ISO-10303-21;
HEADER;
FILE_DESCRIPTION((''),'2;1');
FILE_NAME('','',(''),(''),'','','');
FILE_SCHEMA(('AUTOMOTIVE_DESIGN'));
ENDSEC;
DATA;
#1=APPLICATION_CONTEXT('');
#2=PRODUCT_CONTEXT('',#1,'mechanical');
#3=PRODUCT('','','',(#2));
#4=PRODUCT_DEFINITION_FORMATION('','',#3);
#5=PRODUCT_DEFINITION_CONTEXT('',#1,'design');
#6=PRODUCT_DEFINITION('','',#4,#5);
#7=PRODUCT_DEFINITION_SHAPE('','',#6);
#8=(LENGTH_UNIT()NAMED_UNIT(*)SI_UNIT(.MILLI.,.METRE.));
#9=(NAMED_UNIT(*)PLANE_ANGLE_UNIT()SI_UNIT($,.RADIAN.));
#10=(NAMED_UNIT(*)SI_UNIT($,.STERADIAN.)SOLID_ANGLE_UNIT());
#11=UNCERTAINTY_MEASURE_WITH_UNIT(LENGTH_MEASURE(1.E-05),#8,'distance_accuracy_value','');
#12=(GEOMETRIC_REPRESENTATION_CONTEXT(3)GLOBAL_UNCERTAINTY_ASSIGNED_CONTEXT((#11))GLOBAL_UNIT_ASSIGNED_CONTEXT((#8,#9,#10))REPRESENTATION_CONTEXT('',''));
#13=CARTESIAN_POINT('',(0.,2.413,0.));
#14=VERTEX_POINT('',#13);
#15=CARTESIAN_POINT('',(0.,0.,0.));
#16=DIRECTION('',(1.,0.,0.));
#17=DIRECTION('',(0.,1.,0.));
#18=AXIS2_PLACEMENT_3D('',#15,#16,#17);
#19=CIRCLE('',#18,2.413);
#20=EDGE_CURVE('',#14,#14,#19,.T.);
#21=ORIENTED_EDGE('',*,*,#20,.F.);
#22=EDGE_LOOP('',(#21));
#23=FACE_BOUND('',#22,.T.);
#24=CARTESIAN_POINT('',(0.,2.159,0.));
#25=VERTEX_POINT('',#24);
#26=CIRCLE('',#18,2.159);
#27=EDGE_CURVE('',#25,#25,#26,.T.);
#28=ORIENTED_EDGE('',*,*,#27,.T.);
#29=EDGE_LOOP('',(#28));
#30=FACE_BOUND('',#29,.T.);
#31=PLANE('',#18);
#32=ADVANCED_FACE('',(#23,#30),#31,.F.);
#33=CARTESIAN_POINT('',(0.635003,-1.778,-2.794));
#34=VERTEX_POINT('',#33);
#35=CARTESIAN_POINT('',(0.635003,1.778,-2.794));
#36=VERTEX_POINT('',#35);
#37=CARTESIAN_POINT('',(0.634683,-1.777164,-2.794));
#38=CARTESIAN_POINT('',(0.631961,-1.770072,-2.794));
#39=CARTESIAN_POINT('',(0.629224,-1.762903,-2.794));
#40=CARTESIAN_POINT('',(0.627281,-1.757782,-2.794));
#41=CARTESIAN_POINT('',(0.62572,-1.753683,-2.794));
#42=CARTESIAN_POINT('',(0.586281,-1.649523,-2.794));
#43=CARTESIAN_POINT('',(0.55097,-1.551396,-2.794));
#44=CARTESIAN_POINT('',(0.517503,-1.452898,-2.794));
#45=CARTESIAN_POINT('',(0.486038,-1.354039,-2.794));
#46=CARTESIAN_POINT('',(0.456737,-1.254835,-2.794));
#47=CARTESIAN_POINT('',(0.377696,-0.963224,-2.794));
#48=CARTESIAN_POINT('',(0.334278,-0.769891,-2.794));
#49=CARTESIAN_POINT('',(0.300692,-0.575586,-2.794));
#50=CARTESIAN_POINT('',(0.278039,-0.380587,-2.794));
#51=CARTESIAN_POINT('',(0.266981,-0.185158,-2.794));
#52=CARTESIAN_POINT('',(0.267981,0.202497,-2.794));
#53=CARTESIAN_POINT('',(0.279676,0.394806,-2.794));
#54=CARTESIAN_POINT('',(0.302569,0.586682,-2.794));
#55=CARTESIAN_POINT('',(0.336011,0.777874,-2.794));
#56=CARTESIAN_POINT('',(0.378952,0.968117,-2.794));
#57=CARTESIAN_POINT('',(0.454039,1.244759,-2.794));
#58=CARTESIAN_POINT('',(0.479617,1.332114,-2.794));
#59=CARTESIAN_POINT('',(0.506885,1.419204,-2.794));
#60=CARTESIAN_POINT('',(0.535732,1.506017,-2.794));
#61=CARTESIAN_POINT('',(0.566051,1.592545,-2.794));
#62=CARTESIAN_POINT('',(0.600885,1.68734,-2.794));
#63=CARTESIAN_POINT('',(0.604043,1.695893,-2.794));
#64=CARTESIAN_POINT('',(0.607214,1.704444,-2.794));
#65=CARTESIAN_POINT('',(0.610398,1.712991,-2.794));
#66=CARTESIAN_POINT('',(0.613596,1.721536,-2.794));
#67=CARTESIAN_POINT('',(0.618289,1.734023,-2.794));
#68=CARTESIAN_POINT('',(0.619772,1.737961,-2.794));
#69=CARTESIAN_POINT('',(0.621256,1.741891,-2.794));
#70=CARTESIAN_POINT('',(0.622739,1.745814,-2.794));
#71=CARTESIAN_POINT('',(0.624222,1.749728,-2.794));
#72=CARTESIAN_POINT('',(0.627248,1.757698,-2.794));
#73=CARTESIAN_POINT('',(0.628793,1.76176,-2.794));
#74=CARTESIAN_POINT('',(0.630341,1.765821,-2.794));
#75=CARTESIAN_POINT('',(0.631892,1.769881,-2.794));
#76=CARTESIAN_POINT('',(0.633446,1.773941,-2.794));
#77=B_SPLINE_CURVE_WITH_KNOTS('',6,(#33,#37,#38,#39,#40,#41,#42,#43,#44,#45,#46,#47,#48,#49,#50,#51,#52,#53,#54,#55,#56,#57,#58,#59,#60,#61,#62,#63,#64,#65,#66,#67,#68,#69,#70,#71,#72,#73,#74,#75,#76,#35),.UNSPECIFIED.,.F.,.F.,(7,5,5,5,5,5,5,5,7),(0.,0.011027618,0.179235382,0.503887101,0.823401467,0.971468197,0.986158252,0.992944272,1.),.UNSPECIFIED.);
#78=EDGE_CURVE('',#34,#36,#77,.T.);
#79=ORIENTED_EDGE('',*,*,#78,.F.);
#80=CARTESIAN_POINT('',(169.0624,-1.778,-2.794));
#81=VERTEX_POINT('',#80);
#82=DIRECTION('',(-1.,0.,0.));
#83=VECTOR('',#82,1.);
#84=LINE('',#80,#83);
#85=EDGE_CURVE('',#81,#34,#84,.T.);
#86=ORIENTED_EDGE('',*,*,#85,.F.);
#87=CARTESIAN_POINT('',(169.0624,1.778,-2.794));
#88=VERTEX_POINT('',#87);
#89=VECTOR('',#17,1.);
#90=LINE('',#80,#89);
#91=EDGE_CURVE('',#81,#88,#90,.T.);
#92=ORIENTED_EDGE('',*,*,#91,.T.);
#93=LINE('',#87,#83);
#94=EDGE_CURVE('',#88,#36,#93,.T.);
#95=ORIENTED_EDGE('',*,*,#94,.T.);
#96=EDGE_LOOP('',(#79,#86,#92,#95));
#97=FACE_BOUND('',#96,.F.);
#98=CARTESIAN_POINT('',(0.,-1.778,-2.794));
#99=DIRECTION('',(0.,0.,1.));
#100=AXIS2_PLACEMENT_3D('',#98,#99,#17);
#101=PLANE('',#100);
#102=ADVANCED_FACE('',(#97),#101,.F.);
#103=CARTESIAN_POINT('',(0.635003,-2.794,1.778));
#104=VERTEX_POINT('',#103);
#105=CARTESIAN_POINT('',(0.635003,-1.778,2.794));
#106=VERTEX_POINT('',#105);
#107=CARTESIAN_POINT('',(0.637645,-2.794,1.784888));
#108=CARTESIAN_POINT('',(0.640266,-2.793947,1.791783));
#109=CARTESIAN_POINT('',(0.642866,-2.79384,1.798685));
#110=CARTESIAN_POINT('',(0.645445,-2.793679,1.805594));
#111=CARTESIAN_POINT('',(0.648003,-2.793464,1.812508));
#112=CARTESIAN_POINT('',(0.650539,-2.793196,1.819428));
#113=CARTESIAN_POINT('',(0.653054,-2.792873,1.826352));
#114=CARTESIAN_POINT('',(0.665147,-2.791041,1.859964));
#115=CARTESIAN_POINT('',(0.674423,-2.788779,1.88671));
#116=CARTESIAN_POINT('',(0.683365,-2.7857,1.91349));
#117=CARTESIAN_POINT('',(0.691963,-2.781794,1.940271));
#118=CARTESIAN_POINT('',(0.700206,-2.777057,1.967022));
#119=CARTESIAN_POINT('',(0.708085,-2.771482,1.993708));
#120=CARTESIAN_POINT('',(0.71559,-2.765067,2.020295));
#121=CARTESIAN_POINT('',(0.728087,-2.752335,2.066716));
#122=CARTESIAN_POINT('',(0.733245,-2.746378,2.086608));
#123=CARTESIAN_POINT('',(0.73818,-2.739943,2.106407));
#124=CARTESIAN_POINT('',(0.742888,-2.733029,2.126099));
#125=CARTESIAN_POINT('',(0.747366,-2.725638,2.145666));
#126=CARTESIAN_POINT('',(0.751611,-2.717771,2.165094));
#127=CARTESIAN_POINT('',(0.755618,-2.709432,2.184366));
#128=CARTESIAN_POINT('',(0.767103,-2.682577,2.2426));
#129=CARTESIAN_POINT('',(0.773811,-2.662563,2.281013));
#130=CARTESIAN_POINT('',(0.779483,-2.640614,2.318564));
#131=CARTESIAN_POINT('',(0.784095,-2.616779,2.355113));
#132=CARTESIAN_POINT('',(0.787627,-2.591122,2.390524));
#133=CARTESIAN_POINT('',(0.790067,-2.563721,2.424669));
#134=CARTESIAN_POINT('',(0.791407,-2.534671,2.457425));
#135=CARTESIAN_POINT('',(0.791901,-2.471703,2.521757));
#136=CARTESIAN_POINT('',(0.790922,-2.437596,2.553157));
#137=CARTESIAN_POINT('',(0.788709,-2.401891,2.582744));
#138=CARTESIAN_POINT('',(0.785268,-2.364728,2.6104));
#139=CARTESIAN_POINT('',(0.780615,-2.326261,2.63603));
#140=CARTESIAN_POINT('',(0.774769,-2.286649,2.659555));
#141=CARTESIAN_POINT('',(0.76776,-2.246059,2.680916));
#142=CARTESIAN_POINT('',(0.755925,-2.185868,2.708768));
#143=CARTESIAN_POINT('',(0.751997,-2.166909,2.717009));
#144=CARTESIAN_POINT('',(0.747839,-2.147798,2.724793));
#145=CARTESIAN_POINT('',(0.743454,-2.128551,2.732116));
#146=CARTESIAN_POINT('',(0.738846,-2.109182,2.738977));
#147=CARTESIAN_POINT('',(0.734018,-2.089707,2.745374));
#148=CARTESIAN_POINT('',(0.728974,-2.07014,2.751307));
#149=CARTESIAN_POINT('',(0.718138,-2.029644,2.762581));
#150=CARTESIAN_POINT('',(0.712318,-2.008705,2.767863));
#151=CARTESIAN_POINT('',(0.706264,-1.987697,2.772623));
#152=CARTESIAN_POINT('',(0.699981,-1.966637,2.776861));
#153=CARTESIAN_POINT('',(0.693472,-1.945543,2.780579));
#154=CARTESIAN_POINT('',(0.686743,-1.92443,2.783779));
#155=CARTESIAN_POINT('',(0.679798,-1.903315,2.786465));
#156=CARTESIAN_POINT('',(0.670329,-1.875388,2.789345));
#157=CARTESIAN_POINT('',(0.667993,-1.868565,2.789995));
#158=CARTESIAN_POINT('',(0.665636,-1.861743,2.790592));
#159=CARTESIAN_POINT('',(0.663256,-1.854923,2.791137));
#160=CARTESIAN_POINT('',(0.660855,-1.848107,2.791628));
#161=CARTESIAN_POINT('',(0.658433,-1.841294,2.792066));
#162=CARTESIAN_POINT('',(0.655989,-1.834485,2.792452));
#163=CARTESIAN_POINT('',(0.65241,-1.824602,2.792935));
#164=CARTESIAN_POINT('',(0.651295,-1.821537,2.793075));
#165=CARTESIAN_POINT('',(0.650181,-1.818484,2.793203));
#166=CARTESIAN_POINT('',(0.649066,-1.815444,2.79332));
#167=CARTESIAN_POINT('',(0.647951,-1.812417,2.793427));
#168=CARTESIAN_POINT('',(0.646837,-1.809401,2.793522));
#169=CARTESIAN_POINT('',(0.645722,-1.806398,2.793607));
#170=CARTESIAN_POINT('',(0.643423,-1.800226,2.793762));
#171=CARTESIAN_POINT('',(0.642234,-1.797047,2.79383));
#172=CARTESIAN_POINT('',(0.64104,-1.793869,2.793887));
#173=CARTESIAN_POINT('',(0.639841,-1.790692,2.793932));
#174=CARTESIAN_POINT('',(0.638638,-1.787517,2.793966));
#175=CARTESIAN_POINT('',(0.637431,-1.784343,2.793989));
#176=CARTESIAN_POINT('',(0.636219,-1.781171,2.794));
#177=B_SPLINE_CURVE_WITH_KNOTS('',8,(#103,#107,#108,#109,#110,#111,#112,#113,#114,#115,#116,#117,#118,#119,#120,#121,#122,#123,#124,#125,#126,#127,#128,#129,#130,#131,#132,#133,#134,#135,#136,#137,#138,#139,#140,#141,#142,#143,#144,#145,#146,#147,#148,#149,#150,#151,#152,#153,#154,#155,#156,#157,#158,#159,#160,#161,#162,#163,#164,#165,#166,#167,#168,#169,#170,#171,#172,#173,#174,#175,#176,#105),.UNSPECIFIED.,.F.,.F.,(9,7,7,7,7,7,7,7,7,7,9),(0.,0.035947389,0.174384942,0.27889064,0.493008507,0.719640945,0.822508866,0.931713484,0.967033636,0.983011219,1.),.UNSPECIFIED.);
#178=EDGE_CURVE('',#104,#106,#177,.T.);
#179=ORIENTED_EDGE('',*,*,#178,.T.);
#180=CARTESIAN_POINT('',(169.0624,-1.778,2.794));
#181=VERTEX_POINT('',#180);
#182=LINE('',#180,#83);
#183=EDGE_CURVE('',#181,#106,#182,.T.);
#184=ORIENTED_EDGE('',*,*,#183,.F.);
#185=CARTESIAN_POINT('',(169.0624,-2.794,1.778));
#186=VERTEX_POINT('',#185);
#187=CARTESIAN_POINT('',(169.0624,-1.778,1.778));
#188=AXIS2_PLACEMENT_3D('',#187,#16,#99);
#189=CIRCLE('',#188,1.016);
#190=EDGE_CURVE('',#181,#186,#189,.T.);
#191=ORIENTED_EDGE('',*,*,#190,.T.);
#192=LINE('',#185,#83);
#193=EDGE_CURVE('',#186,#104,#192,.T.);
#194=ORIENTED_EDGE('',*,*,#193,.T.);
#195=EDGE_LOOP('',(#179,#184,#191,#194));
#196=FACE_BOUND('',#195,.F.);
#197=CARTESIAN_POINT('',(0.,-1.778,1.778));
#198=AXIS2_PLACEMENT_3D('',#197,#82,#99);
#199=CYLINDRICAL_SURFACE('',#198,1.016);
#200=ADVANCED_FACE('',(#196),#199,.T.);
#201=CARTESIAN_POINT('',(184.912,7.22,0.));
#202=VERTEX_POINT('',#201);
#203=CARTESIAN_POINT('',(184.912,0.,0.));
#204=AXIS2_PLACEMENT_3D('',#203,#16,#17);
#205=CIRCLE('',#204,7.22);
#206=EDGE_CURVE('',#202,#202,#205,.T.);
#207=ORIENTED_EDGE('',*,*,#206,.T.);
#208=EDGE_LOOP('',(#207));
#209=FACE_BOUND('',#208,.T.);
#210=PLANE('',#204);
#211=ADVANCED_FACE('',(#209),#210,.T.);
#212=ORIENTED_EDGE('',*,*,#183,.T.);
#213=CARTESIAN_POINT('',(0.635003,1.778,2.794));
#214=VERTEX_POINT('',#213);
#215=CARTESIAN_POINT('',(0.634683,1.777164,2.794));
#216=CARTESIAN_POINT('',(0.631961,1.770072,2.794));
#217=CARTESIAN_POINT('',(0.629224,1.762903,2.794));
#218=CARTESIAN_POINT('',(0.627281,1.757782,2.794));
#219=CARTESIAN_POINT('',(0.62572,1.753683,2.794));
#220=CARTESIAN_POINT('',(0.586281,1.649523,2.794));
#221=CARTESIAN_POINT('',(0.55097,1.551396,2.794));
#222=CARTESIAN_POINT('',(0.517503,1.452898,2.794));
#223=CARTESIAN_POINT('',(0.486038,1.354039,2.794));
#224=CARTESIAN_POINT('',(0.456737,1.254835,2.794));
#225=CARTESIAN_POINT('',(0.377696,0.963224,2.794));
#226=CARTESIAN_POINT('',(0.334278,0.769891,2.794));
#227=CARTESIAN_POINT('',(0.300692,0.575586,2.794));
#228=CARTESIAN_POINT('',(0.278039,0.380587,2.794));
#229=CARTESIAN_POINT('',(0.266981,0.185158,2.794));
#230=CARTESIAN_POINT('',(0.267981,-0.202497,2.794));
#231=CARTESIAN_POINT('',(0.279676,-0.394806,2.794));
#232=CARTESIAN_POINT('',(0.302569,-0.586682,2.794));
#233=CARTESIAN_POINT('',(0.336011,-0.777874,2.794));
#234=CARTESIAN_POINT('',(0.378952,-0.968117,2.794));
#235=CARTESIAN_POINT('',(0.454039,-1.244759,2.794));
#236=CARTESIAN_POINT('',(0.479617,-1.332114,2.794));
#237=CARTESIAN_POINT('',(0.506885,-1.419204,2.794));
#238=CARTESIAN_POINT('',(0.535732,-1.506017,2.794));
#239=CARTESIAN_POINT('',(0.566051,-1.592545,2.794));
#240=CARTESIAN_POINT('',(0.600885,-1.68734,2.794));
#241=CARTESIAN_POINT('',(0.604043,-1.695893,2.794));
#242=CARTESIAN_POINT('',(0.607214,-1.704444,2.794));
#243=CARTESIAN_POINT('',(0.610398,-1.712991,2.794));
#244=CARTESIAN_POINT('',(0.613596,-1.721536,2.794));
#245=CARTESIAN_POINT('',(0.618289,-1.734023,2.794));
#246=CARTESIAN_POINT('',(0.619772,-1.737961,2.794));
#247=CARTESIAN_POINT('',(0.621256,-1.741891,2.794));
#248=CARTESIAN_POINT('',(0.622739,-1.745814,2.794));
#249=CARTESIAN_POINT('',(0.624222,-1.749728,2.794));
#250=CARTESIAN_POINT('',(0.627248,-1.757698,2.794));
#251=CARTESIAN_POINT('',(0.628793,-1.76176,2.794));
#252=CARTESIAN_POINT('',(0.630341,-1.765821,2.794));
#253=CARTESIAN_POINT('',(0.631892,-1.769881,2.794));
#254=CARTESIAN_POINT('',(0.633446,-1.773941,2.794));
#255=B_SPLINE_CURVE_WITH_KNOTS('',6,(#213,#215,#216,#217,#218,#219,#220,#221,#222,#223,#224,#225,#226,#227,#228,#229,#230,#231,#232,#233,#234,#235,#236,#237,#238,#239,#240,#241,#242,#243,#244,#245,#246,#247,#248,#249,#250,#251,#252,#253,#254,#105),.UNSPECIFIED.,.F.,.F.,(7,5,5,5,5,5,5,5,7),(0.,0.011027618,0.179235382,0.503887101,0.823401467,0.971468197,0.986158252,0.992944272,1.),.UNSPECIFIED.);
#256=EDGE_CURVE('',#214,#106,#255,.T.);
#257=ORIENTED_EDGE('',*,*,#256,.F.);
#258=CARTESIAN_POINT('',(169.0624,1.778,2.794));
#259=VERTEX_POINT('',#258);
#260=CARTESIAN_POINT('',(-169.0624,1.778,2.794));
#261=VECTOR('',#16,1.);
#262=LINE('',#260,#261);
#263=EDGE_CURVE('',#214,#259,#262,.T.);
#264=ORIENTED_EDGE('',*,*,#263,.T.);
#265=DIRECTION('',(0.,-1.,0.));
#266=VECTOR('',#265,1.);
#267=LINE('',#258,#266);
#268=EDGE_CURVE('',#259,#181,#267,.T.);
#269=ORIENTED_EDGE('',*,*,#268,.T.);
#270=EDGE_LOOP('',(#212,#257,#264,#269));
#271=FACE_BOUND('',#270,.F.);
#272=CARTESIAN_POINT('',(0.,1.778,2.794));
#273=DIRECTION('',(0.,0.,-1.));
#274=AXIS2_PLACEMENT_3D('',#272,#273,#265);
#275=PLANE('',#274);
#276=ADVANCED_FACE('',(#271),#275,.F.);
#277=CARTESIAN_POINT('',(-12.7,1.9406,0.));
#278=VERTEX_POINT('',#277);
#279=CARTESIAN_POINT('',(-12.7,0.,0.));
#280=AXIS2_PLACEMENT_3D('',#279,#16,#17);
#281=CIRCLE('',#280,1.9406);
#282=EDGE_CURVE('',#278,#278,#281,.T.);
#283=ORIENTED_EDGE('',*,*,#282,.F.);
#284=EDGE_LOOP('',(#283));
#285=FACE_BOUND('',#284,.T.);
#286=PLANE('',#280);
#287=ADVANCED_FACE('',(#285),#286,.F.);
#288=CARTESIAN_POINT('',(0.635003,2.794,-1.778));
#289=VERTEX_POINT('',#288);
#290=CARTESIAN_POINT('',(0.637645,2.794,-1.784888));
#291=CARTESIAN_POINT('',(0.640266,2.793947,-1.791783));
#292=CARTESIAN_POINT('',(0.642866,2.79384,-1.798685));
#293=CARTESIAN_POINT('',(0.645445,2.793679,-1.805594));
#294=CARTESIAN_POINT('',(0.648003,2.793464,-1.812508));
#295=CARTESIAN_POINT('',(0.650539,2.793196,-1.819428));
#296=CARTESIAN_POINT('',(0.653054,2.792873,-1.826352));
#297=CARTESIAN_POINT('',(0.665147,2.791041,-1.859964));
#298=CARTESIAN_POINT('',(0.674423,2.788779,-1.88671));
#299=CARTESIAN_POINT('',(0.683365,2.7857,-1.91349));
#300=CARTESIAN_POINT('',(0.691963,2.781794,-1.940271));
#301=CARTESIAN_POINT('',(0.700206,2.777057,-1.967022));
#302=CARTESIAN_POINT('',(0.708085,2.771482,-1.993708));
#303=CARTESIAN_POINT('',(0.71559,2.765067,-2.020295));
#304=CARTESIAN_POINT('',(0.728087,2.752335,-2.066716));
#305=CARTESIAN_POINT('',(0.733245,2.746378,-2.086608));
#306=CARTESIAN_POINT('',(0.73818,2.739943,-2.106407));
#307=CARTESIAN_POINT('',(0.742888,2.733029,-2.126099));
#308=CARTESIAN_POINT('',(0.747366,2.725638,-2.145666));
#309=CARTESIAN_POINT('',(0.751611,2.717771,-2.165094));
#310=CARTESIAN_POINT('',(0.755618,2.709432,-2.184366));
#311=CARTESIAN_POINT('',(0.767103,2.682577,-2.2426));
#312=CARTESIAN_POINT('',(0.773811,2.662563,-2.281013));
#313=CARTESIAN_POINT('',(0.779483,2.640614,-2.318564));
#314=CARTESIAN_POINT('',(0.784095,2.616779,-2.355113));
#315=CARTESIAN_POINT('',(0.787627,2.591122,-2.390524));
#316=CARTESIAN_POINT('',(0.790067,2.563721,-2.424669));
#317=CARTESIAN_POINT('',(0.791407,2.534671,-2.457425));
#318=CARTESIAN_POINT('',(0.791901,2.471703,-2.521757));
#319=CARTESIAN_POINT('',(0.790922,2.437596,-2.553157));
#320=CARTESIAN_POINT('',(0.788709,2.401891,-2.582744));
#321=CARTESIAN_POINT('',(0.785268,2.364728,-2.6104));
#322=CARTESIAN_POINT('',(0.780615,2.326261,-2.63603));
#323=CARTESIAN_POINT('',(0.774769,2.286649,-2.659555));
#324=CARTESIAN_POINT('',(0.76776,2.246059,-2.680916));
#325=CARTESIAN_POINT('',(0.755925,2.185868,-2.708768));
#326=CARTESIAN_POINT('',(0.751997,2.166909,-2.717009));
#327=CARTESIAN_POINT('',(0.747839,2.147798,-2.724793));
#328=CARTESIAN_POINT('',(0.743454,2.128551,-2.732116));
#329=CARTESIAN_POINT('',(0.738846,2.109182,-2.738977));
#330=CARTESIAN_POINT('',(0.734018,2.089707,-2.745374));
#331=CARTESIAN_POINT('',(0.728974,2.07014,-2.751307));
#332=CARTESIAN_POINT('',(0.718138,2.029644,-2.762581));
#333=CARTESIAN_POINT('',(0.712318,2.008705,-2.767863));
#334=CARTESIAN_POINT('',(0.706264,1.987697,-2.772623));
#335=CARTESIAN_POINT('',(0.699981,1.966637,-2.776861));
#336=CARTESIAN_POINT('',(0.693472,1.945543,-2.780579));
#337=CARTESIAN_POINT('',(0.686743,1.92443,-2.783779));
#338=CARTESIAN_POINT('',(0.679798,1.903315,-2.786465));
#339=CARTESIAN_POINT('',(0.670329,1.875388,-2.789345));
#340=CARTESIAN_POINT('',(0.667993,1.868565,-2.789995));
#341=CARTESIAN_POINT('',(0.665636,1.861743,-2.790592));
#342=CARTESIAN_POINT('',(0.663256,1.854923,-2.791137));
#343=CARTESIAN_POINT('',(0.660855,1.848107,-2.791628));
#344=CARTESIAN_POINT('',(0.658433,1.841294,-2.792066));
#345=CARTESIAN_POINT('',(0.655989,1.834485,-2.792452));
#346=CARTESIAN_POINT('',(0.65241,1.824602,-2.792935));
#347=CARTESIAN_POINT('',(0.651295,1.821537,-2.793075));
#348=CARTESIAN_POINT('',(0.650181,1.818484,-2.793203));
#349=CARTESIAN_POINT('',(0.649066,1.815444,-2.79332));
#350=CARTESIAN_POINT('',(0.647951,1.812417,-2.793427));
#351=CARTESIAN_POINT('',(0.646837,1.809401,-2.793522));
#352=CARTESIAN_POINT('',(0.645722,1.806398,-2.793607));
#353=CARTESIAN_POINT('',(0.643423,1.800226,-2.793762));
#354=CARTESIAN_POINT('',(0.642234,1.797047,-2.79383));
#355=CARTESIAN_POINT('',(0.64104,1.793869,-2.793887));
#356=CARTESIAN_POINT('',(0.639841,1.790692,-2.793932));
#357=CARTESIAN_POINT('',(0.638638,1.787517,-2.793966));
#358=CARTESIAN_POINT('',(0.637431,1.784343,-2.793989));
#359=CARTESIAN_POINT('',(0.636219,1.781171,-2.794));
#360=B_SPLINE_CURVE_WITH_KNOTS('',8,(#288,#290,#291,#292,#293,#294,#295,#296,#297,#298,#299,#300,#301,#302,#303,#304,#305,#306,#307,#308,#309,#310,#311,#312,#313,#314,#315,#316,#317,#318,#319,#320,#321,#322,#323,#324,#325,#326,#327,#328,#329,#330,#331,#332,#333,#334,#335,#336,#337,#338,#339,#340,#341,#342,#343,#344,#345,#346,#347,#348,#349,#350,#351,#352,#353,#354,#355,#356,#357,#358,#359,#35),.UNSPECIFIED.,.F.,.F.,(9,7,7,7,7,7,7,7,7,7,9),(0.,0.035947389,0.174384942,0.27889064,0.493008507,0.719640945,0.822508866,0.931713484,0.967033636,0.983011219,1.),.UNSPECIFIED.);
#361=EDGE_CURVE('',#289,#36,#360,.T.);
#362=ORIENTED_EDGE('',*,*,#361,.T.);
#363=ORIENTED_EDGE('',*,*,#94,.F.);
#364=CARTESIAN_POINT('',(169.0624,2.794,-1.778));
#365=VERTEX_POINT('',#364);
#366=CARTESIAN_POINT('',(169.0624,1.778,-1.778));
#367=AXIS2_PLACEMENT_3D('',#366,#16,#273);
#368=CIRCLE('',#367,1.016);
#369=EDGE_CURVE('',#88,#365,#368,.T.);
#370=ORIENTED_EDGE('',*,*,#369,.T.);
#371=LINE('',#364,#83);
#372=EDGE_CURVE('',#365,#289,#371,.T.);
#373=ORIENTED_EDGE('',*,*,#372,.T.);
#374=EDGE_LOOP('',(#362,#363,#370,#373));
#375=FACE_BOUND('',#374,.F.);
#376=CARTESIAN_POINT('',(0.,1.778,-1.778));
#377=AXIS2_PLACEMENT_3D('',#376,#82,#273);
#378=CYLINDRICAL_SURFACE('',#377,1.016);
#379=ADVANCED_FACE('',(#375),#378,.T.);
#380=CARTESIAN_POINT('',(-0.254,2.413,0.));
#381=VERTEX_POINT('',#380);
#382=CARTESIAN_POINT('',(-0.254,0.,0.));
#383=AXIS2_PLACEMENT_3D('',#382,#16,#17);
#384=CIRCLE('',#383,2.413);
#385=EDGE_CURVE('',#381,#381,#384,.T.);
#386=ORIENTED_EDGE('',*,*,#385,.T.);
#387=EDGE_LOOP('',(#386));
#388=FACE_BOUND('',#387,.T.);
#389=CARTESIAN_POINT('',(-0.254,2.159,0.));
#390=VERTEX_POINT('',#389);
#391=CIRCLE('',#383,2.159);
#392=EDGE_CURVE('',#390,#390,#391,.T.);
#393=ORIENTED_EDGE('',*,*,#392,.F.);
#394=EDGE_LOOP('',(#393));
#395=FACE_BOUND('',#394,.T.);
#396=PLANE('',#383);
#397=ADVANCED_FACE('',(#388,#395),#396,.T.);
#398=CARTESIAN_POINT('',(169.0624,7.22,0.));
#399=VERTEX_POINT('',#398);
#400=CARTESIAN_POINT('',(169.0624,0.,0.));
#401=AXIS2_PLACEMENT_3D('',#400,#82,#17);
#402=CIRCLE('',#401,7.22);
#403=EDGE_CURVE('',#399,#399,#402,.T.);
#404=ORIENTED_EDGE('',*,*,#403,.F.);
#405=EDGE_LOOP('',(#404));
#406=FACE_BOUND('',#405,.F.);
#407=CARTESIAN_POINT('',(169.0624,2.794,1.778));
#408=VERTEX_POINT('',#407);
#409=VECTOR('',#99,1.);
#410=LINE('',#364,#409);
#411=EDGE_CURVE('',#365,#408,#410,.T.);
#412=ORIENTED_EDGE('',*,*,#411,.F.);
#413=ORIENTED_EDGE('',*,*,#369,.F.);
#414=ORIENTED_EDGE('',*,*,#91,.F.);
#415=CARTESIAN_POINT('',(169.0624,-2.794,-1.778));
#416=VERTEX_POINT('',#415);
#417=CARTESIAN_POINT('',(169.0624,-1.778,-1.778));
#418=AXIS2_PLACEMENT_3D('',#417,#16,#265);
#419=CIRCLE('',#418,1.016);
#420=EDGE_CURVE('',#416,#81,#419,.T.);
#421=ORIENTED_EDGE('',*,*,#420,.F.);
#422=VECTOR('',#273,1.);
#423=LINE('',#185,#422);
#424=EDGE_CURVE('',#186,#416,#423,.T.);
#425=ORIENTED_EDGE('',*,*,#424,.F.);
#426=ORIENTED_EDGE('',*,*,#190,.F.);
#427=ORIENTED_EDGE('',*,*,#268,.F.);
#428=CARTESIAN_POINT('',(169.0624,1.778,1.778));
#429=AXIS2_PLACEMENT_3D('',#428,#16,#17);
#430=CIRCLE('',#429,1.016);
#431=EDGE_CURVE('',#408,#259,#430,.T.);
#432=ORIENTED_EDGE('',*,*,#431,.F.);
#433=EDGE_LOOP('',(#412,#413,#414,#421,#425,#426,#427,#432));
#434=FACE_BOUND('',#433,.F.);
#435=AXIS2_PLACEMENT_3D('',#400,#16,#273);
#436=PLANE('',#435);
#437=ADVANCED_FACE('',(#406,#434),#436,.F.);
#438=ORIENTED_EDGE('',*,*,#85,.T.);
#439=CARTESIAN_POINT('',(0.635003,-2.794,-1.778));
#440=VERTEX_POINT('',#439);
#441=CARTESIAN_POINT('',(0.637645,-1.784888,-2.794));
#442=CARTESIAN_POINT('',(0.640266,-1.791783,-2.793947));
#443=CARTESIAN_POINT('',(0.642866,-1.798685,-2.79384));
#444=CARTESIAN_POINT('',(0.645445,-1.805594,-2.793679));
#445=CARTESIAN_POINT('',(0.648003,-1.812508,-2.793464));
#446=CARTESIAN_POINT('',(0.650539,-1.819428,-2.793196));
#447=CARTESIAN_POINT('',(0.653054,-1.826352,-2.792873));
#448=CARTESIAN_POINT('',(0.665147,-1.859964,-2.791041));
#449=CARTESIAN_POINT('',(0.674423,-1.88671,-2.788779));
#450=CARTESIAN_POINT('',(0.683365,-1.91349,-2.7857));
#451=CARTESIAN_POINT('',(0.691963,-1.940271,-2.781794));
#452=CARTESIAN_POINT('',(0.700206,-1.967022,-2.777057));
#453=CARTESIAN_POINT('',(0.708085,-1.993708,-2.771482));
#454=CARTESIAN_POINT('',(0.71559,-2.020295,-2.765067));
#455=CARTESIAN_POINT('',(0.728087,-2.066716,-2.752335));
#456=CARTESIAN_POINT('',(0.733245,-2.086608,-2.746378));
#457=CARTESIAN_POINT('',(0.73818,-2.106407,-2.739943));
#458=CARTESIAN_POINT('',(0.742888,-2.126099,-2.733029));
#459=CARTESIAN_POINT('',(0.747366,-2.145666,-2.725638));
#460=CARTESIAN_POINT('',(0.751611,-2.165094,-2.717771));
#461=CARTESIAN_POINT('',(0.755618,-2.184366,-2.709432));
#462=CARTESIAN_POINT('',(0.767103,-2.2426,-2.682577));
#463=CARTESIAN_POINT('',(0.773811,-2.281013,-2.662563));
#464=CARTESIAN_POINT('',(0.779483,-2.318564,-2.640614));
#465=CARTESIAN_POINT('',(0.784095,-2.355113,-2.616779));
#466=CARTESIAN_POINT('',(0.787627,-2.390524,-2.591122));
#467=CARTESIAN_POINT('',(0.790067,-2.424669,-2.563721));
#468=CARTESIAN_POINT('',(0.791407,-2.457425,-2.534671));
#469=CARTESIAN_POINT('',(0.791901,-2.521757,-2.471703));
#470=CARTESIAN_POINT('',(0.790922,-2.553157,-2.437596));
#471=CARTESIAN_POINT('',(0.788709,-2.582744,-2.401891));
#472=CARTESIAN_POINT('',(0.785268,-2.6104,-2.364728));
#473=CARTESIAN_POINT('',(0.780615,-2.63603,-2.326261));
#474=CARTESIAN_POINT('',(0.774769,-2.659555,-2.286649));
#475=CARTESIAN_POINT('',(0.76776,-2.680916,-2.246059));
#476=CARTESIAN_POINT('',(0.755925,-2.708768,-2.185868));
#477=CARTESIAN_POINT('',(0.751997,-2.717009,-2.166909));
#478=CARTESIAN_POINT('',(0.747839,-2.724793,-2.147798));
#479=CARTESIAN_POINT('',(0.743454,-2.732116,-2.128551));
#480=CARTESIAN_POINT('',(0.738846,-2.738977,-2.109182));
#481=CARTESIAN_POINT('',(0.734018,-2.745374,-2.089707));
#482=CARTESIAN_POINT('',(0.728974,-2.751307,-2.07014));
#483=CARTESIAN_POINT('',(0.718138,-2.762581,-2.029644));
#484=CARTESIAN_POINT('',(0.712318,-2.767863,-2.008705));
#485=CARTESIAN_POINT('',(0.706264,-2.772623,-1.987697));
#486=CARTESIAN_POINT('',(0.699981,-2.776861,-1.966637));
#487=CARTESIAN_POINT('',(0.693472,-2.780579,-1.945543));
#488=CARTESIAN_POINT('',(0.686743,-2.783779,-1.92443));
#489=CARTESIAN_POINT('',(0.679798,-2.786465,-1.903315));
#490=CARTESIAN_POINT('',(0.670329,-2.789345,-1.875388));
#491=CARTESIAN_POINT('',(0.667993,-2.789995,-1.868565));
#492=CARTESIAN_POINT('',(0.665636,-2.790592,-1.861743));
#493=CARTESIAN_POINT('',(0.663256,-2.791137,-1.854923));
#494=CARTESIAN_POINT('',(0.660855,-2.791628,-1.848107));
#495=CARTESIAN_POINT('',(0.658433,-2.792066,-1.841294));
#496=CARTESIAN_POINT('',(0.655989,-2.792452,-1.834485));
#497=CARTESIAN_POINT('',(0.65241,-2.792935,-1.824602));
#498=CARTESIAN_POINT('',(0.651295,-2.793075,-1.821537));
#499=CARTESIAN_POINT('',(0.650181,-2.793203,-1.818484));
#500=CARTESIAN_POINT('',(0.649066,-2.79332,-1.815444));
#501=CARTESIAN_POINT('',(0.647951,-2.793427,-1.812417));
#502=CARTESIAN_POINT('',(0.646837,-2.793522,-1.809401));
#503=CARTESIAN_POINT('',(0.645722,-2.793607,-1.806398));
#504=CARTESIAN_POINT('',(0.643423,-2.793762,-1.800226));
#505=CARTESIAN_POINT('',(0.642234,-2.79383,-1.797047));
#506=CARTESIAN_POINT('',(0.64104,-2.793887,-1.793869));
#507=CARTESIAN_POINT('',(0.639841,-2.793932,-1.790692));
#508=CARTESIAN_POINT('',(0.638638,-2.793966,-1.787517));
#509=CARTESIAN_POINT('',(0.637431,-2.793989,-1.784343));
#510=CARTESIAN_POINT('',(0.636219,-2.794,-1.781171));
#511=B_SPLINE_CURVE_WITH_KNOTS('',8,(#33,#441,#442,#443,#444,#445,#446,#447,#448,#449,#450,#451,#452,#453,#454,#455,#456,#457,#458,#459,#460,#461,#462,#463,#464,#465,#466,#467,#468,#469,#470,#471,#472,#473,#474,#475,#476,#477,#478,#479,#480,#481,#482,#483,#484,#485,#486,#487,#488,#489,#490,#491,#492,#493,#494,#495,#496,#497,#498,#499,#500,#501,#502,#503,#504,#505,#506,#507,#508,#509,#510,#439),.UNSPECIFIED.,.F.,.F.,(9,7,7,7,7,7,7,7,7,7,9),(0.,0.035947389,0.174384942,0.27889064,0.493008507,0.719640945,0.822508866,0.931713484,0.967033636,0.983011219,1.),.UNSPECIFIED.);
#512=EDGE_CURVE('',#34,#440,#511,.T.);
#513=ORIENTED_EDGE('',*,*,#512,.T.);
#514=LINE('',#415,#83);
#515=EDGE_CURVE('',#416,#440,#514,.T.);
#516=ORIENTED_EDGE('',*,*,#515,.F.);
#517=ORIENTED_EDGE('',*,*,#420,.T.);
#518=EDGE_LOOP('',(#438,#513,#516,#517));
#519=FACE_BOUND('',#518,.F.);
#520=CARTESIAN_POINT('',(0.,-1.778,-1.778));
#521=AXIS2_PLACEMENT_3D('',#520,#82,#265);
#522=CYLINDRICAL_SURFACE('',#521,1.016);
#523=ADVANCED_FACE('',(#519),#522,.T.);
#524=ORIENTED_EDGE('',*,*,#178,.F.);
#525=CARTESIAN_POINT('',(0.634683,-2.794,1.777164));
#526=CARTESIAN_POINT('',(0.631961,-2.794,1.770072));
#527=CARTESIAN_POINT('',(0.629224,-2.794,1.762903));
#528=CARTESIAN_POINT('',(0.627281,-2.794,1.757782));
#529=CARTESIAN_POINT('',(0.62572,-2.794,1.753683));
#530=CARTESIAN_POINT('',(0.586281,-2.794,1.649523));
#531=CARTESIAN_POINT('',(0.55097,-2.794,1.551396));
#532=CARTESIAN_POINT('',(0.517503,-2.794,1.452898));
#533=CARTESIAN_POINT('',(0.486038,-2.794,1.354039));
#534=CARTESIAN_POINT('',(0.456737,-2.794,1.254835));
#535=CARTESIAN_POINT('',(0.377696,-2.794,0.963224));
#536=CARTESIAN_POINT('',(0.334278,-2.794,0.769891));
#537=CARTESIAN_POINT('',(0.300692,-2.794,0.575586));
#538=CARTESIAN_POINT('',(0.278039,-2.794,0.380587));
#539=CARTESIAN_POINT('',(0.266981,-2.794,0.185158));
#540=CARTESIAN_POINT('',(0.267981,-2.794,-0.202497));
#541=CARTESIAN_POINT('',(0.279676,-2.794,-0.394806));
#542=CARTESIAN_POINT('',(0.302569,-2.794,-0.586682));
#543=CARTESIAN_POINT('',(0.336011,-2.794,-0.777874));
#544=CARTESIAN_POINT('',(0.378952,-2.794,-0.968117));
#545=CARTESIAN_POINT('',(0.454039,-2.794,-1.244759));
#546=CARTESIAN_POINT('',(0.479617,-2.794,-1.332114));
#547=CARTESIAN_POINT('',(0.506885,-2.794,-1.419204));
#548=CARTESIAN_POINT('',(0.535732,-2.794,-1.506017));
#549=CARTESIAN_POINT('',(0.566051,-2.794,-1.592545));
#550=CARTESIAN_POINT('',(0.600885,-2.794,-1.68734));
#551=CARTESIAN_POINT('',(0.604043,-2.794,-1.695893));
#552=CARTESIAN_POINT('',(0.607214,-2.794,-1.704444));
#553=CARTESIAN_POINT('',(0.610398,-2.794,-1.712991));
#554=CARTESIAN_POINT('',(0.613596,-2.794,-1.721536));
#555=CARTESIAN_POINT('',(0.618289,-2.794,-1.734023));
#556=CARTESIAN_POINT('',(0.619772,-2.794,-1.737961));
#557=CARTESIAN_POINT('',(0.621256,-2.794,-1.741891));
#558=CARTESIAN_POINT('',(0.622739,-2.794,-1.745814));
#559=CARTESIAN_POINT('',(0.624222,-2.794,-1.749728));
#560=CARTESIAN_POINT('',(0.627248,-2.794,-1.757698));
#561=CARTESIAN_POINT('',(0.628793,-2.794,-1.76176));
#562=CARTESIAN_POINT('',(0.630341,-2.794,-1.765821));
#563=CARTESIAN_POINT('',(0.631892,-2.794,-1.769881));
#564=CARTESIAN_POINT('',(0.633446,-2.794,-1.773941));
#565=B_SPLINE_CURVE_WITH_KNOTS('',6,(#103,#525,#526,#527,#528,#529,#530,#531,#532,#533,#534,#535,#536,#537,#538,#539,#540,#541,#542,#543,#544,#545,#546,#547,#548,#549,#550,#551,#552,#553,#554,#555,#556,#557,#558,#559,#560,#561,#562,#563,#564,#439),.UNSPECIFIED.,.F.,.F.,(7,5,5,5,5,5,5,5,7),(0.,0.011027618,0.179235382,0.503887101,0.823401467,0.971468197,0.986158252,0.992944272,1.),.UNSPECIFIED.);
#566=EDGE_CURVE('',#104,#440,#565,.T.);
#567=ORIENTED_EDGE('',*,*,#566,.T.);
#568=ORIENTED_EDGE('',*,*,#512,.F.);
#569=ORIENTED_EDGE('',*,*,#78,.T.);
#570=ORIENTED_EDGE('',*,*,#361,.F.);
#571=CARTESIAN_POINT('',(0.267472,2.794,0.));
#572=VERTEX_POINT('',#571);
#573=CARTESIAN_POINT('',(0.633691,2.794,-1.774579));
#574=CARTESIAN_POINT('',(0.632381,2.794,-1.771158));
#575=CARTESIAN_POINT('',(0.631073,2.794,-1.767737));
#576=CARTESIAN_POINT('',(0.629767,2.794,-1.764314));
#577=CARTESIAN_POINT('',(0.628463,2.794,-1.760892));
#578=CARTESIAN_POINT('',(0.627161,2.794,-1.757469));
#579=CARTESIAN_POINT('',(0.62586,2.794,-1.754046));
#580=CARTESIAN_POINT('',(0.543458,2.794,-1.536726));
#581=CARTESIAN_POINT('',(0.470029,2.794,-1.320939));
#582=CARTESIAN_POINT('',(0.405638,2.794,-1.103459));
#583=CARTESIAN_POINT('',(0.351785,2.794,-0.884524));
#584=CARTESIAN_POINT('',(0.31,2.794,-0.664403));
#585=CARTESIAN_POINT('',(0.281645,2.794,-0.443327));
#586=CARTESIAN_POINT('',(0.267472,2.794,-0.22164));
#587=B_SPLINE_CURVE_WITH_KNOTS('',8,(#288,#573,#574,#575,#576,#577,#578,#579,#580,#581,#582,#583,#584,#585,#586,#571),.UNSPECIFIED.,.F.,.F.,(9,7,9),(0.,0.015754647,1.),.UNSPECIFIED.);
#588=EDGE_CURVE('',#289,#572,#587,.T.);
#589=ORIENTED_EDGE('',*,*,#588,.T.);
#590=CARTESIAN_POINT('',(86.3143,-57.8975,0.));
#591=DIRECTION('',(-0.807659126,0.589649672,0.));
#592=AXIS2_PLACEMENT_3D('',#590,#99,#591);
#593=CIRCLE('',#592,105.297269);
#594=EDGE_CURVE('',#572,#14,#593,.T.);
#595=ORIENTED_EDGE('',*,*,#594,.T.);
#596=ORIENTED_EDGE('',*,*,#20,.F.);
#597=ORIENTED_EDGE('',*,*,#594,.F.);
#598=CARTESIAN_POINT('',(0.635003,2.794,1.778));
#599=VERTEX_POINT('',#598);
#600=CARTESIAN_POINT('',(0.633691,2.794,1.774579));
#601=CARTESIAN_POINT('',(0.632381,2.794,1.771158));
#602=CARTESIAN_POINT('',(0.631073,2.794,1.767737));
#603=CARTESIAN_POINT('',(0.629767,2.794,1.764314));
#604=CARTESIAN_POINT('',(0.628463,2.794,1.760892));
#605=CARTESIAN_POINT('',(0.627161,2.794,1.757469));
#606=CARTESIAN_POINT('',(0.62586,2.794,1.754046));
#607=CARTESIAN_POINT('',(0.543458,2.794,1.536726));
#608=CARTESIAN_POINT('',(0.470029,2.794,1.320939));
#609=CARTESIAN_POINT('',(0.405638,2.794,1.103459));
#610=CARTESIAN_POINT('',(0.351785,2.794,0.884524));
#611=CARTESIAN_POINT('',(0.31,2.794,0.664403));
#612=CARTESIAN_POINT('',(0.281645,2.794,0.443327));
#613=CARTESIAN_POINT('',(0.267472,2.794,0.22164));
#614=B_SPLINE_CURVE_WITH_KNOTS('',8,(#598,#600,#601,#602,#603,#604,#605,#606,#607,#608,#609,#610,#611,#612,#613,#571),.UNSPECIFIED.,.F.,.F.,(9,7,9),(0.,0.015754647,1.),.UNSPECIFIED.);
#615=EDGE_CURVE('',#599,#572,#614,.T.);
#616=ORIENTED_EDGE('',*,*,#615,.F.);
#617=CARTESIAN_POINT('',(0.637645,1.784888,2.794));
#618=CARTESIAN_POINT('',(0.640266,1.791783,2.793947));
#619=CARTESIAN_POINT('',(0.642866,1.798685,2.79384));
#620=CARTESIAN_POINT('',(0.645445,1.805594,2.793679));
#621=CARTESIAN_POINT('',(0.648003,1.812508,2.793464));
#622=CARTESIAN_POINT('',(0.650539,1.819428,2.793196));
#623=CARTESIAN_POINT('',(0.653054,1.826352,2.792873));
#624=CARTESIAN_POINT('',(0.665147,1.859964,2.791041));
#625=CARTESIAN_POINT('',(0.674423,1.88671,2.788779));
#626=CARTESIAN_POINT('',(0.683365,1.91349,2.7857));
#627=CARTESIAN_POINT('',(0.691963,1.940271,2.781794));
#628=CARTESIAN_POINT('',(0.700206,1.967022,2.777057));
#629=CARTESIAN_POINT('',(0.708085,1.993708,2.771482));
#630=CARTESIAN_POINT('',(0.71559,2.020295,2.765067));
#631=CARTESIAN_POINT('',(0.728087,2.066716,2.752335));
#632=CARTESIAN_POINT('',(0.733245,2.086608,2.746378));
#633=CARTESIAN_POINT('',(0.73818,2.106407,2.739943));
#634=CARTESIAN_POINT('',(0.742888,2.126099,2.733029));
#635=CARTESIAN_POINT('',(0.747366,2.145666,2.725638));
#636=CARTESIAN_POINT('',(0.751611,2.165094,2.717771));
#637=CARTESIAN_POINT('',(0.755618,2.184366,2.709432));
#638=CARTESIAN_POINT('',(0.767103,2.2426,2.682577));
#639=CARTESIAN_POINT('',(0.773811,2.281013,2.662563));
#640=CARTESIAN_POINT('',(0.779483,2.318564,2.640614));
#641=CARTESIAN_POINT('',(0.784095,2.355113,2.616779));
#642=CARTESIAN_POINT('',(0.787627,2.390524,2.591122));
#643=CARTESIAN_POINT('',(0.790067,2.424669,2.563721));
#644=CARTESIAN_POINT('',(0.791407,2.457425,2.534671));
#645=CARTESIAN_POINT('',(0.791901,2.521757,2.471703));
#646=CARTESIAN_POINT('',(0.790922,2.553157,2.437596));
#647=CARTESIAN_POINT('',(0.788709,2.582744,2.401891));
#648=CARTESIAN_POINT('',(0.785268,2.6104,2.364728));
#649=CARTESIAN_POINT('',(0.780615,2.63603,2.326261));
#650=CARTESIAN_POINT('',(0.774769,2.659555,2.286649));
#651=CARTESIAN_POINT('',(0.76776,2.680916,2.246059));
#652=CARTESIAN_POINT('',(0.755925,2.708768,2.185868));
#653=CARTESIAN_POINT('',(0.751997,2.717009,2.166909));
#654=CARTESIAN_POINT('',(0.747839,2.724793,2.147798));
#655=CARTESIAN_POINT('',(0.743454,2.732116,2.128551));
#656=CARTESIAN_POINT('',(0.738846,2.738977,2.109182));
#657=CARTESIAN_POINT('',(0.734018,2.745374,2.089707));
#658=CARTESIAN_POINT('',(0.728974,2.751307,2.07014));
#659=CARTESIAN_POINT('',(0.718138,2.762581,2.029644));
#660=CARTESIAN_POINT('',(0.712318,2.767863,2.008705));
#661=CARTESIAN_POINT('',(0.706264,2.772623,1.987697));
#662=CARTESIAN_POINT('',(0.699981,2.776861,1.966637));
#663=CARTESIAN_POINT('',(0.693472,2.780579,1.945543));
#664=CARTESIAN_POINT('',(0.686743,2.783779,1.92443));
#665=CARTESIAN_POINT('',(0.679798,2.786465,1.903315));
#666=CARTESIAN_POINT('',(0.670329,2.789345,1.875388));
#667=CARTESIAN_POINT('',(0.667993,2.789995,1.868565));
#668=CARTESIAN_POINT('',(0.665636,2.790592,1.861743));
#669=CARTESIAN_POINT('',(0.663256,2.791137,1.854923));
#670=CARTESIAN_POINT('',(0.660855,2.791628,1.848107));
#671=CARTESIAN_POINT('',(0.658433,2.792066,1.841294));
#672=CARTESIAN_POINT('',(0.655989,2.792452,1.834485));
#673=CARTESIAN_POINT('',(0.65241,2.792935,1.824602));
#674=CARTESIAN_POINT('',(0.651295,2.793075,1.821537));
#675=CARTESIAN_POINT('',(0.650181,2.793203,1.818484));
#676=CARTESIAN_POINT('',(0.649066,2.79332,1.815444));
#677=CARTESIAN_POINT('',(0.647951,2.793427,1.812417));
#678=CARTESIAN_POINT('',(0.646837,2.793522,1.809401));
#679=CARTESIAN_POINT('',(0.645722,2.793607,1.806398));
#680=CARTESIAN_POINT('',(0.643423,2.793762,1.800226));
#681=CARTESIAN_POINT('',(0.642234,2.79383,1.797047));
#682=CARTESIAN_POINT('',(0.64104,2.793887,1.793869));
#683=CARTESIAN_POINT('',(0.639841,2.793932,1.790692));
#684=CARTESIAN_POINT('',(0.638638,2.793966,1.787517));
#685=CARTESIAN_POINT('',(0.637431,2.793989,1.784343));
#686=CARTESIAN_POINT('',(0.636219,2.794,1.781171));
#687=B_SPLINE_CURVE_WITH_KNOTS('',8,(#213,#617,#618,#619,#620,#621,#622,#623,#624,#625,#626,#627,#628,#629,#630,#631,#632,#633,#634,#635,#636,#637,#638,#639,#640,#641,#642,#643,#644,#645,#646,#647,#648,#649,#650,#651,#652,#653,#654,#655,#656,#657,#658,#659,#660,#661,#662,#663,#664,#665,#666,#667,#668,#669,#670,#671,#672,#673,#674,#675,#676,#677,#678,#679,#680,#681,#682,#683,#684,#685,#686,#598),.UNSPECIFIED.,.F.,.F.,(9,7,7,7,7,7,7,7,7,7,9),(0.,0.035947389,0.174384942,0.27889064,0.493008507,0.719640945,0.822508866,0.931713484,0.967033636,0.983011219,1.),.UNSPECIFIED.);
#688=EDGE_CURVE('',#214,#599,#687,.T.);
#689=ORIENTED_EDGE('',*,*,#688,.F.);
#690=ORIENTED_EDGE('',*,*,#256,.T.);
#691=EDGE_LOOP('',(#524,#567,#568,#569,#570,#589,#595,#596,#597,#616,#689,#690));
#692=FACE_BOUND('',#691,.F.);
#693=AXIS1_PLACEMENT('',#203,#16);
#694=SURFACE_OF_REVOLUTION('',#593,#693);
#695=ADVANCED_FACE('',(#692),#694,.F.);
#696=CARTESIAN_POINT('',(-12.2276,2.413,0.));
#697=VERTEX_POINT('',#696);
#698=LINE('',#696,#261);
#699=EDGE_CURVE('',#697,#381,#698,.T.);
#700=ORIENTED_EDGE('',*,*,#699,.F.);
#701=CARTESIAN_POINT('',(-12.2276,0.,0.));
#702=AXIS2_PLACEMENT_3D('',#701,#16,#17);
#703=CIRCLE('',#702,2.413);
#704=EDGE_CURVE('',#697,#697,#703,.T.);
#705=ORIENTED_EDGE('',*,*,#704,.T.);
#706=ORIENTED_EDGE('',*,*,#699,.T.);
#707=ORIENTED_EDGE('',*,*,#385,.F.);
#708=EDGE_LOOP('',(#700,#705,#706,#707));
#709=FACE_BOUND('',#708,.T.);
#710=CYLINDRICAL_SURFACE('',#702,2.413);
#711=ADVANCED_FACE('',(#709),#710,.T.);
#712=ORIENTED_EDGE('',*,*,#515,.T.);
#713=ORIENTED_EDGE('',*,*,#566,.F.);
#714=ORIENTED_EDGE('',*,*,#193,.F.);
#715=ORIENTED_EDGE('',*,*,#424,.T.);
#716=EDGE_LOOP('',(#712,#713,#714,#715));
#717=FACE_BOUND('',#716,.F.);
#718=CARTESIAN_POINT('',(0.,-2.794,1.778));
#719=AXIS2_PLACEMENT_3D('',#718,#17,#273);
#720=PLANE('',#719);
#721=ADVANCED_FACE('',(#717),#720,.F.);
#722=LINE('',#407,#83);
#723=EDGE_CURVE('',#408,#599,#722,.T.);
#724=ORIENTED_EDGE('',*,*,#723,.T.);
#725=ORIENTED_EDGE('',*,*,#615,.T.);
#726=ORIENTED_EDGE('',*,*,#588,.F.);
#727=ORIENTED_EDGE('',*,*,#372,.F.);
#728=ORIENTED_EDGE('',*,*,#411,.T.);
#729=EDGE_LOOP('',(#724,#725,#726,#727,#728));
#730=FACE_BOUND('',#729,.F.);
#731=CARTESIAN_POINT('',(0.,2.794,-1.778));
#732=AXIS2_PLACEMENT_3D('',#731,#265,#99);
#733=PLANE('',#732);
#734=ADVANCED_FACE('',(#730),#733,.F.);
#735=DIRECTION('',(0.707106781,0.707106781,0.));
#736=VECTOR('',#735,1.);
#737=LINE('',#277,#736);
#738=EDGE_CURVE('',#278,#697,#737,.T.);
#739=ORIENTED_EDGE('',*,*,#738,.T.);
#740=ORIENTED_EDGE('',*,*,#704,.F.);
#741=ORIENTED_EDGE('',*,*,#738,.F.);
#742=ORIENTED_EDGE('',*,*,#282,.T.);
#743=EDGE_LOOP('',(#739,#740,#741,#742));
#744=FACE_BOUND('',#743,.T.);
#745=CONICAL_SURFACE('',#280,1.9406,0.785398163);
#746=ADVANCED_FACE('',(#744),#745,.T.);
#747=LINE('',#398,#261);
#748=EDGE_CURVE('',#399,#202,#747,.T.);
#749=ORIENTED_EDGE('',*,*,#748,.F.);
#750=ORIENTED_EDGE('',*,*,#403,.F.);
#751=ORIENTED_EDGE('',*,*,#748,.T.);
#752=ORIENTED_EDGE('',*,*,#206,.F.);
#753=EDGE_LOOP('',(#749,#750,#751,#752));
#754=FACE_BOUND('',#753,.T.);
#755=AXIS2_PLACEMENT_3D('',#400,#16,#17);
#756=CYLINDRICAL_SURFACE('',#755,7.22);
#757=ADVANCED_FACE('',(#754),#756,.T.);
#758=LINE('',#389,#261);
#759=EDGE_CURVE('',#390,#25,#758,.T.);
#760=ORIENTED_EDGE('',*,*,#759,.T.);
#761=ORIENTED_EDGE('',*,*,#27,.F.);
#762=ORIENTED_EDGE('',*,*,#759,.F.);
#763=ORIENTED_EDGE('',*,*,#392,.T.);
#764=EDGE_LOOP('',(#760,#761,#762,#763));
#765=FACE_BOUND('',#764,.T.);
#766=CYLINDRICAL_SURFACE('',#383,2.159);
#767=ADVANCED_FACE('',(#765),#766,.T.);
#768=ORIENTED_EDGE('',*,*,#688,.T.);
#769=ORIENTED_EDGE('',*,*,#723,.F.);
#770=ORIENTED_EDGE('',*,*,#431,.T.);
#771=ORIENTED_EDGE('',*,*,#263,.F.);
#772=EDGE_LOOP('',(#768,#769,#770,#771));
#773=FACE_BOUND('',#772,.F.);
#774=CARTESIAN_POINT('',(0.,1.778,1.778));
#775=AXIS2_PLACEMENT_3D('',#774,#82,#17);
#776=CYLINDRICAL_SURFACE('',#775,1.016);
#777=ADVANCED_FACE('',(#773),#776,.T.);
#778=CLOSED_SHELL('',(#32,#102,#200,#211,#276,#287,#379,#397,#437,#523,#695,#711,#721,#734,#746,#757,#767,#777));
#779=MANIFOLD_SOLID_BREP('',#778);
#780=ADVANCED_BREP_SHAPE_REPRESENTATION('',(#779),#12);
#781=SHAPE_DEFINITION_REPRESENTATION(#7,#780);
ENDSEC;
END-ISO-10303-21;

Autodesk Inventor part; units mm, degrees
sketch "Sketch_1" plane through (0, 0, 0) normal (0, 0, 1) x (1, 0, 0)
  line L0 (184.912, 0) -> (0, 0)
  line L1 (0, 0) -> (0, 2.413)
  arc A0 (1.27, 4.191) -> (0, 2.413) centre (86.3143, -57.8975) ccw
  line L2 (1.27, 4.191) -> (169.0624, 4.191)
  line L3 (169.0624, 4.191) -> (169.0624, 7.22)
  line L4 (169.0624, 7.22) -> (184.912, 7.22)
  line L5 (184.912, 7.22) -> (184.912, 0)
  line L6 (184.912, 0) -> (0, 0)
revolve "Revolution1" add sketch "Sketch_1" angle 360 about axis through (184.912, 0, 0) along (1, 0, 0)
sketch "Sketch_3" plane through (0, 0, 0) normal (0, 0, 1) x (1, 0, 0)
  line L0 (0, 0) -> (-12.7, 0)
  line L1 (-12.7, 0) -> (-12.7, 1.9406)
  line L2 (-12.7, 1.9406) -> (-12.2276, 2.413)
  line L3 (-12.2276, 2.413) -> (0, 2.413)
  line L4 (0, 2.413) -> (0, 0)
  line L5 (0, 0) -> (-12.7, 0)
revolve "Revolution2" add sketch "Sketch_3" angle 360 about axis through (0, 0, 0) along (1, 0, 0)
thread "Thread1" size "10-32 UNF" class "2A" standard "ANSI Unified Screw Threads" full length
sketch "Sketch_31" plane through (0, 0, 0) normal (1, 0, 0) x (0, 0, -1)
  line L0 (-5.588, 5.588) -> (-5.588, -5.588)
  line L1 (-5.588, -5.588) -> (5.588, -5.588)
  line L2 (5.588, -5.588) -> (5.588, 5.588)
  line L3 (5.588, 5.588) -> (-5.588, 5.588)
  line L4 (-2.794, 1.778) -> (-2.794, -1.778)
  arc A0 (-2.794, -1.778) -> (-1.778, -2.794) centre (-1.778, -1.778) ccw
  line L5 (-1.778, -2.794) -> (1.778, -2.794)
  arc A1 (1.778, -2.794) -> (2.794, -1.778) centre (1.778, -1.778) ccw
  line L6 (2.794, -1.778) -> (2.794, 1.778)
  arc A2 (2.794, 1.778) -> (1.778, 2.794) centre (1.778, 1.778) ccw
  line L7 (1.778, 2.794) -> (-1.778, 2.794)
  arc A3 (-1.778, 2.794) -> (-2.794, 1.778) centre (-1.778, 1.778) ccw
extrude "Extrusion1" cut sketch "Sketch_31" along normal mid plane 338.1248
sketch "Sketch_30" plane through (0, 0, 0) normal (0, 0, 1) x (1, 0, 0)
  line L0 (0, 0) -> (-0.254, 0)
  line L1 (-0.254, 2.413) -> (-0.254, 2.159)
  line L2 (-0.254, 2.159) -> (0, 2.159)
  line L3 (0, 2.159) -> (0, 2.413)
  line L4 (0, 2.413) -> (-0.254, 2.413)
revolve "Revolution3" cut sketch "Sketch_30" angle 360 about axis through (0, 0, 0) along (1, 0, 0)
ref_plane "rod_cp_XY" through (0, 0, 0) normal (1, 0, 0) x (0, 0, -1)
ref_plane "rod_cp_YZ" through (0, 0, 0) normal (0, 0, -1) x (0, 1, 0)
ref_plane "rod_cp_ZX" through (0, 0, 0) normal (0, 1, 0) x (1, 0, 0)
ref_plane "to_rod_clevis_XY" through (-12.7, 0, 0) normal (1, 0, 0) x (0, 0, -1)
ref_plane "to_rod_clevis_YZ" through (-12.7, 0, 0) normal (0, 0, -1) x (0, 1, 0)
ref_plane "to_rod_clevis_ZX" through (-12.7, 0, 0) normal (0, 1, 0) x (1, 0, 0)
ref_plane "rl22_XY" through (0, 0, 0) normal (1, 0, 0) x (0, 0, -1)
ref_plane "rl22_YZ" through (0, 0, 0) normal (0, 0, -1) x (0, 1, 0)
ref_plane "rl22_ZX" through (0, 0, 0) normal (0, 1, 0) x (1, 0, 0)
ref_plane "rl1_XY" through (-12.7, 0, 0) normal (1, 0, 0) x (0, 0, -1)
ref_plane "rl1_YZ" through (-12.7, 0, 0) normal (0, 0, -1) x (0, 1, 0)
ref_plane "rl1_ZX" through (-12.7, 0, 0) normal (0, 1, 0) x (1, 0, 0)
ref_plane "thd1_XY" through (-12.7, 2.413, 0) normal (1, 0, 0) x (0, 0, -1)
ref_plane "thd1_YZ" through (-12.7, 2.413, 0) normal (0, 0, -1) x (0, 1, 0)
ref_plane "thd1_ZX" through (-12.7, 2.413, 0) normal (0, 1, 0) x (1, 0, 0)
ref_plane "thd2_XY" through (-12.7, -2.413, 0) normal (1, 0, 0) x (0, 0, -1)
ref_plane "thd2_YZ" through (-12.7, -2.413, 0) normal (0, 0, -1) x (0, 1, 0)
ref_plane "thd2_ZX" through (-12.7, -2.413, 0) normal (0, 1, 0) x (1, 0, 0)
ref_plane "dia1_XY" through (0, 2.794, 0) normal (1, 0, 0) x (0, 0, -1)
ref_plane "dia1_YZ" through (0, 2.794, 0) normal (0, 0, -1) x (0, 1, 0)
ref_plane "dia1_ZX" through (0, 2.794, 0) normal (0, 1, 0) x (1, 0, 0)
ref_plane "dia2_XY" through (0, -2.794, 0) normal (1, 0, 0) x (0, 0, -1)
ref_plane "dia2_YZ" through (0, -2.794, 0) normal (0, 0, -1) x (0, 1, 0)
ref_plane "dia2_ZX" through (0, -2.794, 0) normal (0, 1, 0) x (1, 0, 0)
ref_plane "stroke11_XY" through (0, 0, 0) normal (1, 0, 0) x (0, 0, -1)
ref_plane "stroke11_YZ" through (0, 0, 0) normal (0, 0, -1) x (0, 1, 0)
ref_plane "stroke11_ZX" through (0, 0, 0) normal (0, 1, 0) x (1, 0, 0)
ref_plane "h1_XY" through (3.175, 0, 0) normal (0, 0, 1) x (1, 0, 0)
ref_plane "h1_YZ" through (3.175, 0, 0) normal (1, 0, 0) x (0, 1, 0)
ref_plane "h1_ZX" through (3.175, 0, 0) normal (0, 1, 0) x (0, 0, 1)
ref_plane "h2_XY" through (0, 0, 0) normal (0, 0, 1) x (1, 0, 0)
ref_plane "h2_YZ" through (0, 0, 0) normal (1, 0, 0) x (0, 1, 0)
ref_plane "h2_ZX" through (0, 0, 0) normal (0, 1, 0) x (0, 0, 1)
ref_plane "h3_XY" through (0, 0, 0) normal (0, 0, 1) x (1, 0, 0)
ref_plane "h3_YZ" through (0, 0, 0) normal (1, 0, 0) x (0, 1, 0)
ref_plane "h3_ZX" through (0, 0, 0) normal (0, 1, 0) x (0, 0, 1)
ref_plane "rl2_XY" through (0, 0, 0) normal (1, 0, 0) x (0, 0, -1)
ref_plane "rl2_YZ" through (0, 0, 0) normal (0, 0, -1) x (0, 1, 0)
ref_plane "rl2_ZX" through (0, 0, 0) normal (0, 1, 0) x (1, 0, 0)
ref_plane "stroke1_XY" through (0, 0, 0) normal (1, 0, 0) x (0, 0, -1)
ref_plane "stroke1_YZ" through (0, 0, 0) normal (0, 0, -1) x (0, 1, 0)
ref_plane "stroke1_ZX" through (0, 0, 0) normal (0, 1, 0) x (1, 0, 0)
ref_plane "dia12_XY" through (0, 0, 7.8105) normal (1, 0, 0) x (0, 0, -1)
ref_plane "dia12_YZ" through (0, 0, 7.8105) normal (0, 0, -1) x (0, 1, 0)
ref_plane "dia12_ZX" through (0, 0, 7.8105) normal (0, 1, 0) x (1, 0, 0)
ref_plane "dia22_XY" through (0, 0, -7.8105) normal (1, 0, 0) x (0, 0, -1)
ref_plane "dia22_YZ" through (0, 0, -7.8105) normal (0, 0, -1) x (0, 1, 0)
ref_plane "dia22_ZX" through (0, 0, -7.8105) normal (0, 1, 0) x (1, 0, 0)
ref_plane "stroke1bf_XY" through (0, 0, 0) normal (1, 0, 0) x (0, 0, -1)
ref_plane "stroke1bf_YZ" through (0, 0, 0) normal (0, 0, -1) x (0, 1, 0)
ref_plane "stroke1bf_ZX" through (0, 0, 0) normal (0, 1, 0) x (1, 0, 0)
properties part number "025.5-D_NR_rod"
